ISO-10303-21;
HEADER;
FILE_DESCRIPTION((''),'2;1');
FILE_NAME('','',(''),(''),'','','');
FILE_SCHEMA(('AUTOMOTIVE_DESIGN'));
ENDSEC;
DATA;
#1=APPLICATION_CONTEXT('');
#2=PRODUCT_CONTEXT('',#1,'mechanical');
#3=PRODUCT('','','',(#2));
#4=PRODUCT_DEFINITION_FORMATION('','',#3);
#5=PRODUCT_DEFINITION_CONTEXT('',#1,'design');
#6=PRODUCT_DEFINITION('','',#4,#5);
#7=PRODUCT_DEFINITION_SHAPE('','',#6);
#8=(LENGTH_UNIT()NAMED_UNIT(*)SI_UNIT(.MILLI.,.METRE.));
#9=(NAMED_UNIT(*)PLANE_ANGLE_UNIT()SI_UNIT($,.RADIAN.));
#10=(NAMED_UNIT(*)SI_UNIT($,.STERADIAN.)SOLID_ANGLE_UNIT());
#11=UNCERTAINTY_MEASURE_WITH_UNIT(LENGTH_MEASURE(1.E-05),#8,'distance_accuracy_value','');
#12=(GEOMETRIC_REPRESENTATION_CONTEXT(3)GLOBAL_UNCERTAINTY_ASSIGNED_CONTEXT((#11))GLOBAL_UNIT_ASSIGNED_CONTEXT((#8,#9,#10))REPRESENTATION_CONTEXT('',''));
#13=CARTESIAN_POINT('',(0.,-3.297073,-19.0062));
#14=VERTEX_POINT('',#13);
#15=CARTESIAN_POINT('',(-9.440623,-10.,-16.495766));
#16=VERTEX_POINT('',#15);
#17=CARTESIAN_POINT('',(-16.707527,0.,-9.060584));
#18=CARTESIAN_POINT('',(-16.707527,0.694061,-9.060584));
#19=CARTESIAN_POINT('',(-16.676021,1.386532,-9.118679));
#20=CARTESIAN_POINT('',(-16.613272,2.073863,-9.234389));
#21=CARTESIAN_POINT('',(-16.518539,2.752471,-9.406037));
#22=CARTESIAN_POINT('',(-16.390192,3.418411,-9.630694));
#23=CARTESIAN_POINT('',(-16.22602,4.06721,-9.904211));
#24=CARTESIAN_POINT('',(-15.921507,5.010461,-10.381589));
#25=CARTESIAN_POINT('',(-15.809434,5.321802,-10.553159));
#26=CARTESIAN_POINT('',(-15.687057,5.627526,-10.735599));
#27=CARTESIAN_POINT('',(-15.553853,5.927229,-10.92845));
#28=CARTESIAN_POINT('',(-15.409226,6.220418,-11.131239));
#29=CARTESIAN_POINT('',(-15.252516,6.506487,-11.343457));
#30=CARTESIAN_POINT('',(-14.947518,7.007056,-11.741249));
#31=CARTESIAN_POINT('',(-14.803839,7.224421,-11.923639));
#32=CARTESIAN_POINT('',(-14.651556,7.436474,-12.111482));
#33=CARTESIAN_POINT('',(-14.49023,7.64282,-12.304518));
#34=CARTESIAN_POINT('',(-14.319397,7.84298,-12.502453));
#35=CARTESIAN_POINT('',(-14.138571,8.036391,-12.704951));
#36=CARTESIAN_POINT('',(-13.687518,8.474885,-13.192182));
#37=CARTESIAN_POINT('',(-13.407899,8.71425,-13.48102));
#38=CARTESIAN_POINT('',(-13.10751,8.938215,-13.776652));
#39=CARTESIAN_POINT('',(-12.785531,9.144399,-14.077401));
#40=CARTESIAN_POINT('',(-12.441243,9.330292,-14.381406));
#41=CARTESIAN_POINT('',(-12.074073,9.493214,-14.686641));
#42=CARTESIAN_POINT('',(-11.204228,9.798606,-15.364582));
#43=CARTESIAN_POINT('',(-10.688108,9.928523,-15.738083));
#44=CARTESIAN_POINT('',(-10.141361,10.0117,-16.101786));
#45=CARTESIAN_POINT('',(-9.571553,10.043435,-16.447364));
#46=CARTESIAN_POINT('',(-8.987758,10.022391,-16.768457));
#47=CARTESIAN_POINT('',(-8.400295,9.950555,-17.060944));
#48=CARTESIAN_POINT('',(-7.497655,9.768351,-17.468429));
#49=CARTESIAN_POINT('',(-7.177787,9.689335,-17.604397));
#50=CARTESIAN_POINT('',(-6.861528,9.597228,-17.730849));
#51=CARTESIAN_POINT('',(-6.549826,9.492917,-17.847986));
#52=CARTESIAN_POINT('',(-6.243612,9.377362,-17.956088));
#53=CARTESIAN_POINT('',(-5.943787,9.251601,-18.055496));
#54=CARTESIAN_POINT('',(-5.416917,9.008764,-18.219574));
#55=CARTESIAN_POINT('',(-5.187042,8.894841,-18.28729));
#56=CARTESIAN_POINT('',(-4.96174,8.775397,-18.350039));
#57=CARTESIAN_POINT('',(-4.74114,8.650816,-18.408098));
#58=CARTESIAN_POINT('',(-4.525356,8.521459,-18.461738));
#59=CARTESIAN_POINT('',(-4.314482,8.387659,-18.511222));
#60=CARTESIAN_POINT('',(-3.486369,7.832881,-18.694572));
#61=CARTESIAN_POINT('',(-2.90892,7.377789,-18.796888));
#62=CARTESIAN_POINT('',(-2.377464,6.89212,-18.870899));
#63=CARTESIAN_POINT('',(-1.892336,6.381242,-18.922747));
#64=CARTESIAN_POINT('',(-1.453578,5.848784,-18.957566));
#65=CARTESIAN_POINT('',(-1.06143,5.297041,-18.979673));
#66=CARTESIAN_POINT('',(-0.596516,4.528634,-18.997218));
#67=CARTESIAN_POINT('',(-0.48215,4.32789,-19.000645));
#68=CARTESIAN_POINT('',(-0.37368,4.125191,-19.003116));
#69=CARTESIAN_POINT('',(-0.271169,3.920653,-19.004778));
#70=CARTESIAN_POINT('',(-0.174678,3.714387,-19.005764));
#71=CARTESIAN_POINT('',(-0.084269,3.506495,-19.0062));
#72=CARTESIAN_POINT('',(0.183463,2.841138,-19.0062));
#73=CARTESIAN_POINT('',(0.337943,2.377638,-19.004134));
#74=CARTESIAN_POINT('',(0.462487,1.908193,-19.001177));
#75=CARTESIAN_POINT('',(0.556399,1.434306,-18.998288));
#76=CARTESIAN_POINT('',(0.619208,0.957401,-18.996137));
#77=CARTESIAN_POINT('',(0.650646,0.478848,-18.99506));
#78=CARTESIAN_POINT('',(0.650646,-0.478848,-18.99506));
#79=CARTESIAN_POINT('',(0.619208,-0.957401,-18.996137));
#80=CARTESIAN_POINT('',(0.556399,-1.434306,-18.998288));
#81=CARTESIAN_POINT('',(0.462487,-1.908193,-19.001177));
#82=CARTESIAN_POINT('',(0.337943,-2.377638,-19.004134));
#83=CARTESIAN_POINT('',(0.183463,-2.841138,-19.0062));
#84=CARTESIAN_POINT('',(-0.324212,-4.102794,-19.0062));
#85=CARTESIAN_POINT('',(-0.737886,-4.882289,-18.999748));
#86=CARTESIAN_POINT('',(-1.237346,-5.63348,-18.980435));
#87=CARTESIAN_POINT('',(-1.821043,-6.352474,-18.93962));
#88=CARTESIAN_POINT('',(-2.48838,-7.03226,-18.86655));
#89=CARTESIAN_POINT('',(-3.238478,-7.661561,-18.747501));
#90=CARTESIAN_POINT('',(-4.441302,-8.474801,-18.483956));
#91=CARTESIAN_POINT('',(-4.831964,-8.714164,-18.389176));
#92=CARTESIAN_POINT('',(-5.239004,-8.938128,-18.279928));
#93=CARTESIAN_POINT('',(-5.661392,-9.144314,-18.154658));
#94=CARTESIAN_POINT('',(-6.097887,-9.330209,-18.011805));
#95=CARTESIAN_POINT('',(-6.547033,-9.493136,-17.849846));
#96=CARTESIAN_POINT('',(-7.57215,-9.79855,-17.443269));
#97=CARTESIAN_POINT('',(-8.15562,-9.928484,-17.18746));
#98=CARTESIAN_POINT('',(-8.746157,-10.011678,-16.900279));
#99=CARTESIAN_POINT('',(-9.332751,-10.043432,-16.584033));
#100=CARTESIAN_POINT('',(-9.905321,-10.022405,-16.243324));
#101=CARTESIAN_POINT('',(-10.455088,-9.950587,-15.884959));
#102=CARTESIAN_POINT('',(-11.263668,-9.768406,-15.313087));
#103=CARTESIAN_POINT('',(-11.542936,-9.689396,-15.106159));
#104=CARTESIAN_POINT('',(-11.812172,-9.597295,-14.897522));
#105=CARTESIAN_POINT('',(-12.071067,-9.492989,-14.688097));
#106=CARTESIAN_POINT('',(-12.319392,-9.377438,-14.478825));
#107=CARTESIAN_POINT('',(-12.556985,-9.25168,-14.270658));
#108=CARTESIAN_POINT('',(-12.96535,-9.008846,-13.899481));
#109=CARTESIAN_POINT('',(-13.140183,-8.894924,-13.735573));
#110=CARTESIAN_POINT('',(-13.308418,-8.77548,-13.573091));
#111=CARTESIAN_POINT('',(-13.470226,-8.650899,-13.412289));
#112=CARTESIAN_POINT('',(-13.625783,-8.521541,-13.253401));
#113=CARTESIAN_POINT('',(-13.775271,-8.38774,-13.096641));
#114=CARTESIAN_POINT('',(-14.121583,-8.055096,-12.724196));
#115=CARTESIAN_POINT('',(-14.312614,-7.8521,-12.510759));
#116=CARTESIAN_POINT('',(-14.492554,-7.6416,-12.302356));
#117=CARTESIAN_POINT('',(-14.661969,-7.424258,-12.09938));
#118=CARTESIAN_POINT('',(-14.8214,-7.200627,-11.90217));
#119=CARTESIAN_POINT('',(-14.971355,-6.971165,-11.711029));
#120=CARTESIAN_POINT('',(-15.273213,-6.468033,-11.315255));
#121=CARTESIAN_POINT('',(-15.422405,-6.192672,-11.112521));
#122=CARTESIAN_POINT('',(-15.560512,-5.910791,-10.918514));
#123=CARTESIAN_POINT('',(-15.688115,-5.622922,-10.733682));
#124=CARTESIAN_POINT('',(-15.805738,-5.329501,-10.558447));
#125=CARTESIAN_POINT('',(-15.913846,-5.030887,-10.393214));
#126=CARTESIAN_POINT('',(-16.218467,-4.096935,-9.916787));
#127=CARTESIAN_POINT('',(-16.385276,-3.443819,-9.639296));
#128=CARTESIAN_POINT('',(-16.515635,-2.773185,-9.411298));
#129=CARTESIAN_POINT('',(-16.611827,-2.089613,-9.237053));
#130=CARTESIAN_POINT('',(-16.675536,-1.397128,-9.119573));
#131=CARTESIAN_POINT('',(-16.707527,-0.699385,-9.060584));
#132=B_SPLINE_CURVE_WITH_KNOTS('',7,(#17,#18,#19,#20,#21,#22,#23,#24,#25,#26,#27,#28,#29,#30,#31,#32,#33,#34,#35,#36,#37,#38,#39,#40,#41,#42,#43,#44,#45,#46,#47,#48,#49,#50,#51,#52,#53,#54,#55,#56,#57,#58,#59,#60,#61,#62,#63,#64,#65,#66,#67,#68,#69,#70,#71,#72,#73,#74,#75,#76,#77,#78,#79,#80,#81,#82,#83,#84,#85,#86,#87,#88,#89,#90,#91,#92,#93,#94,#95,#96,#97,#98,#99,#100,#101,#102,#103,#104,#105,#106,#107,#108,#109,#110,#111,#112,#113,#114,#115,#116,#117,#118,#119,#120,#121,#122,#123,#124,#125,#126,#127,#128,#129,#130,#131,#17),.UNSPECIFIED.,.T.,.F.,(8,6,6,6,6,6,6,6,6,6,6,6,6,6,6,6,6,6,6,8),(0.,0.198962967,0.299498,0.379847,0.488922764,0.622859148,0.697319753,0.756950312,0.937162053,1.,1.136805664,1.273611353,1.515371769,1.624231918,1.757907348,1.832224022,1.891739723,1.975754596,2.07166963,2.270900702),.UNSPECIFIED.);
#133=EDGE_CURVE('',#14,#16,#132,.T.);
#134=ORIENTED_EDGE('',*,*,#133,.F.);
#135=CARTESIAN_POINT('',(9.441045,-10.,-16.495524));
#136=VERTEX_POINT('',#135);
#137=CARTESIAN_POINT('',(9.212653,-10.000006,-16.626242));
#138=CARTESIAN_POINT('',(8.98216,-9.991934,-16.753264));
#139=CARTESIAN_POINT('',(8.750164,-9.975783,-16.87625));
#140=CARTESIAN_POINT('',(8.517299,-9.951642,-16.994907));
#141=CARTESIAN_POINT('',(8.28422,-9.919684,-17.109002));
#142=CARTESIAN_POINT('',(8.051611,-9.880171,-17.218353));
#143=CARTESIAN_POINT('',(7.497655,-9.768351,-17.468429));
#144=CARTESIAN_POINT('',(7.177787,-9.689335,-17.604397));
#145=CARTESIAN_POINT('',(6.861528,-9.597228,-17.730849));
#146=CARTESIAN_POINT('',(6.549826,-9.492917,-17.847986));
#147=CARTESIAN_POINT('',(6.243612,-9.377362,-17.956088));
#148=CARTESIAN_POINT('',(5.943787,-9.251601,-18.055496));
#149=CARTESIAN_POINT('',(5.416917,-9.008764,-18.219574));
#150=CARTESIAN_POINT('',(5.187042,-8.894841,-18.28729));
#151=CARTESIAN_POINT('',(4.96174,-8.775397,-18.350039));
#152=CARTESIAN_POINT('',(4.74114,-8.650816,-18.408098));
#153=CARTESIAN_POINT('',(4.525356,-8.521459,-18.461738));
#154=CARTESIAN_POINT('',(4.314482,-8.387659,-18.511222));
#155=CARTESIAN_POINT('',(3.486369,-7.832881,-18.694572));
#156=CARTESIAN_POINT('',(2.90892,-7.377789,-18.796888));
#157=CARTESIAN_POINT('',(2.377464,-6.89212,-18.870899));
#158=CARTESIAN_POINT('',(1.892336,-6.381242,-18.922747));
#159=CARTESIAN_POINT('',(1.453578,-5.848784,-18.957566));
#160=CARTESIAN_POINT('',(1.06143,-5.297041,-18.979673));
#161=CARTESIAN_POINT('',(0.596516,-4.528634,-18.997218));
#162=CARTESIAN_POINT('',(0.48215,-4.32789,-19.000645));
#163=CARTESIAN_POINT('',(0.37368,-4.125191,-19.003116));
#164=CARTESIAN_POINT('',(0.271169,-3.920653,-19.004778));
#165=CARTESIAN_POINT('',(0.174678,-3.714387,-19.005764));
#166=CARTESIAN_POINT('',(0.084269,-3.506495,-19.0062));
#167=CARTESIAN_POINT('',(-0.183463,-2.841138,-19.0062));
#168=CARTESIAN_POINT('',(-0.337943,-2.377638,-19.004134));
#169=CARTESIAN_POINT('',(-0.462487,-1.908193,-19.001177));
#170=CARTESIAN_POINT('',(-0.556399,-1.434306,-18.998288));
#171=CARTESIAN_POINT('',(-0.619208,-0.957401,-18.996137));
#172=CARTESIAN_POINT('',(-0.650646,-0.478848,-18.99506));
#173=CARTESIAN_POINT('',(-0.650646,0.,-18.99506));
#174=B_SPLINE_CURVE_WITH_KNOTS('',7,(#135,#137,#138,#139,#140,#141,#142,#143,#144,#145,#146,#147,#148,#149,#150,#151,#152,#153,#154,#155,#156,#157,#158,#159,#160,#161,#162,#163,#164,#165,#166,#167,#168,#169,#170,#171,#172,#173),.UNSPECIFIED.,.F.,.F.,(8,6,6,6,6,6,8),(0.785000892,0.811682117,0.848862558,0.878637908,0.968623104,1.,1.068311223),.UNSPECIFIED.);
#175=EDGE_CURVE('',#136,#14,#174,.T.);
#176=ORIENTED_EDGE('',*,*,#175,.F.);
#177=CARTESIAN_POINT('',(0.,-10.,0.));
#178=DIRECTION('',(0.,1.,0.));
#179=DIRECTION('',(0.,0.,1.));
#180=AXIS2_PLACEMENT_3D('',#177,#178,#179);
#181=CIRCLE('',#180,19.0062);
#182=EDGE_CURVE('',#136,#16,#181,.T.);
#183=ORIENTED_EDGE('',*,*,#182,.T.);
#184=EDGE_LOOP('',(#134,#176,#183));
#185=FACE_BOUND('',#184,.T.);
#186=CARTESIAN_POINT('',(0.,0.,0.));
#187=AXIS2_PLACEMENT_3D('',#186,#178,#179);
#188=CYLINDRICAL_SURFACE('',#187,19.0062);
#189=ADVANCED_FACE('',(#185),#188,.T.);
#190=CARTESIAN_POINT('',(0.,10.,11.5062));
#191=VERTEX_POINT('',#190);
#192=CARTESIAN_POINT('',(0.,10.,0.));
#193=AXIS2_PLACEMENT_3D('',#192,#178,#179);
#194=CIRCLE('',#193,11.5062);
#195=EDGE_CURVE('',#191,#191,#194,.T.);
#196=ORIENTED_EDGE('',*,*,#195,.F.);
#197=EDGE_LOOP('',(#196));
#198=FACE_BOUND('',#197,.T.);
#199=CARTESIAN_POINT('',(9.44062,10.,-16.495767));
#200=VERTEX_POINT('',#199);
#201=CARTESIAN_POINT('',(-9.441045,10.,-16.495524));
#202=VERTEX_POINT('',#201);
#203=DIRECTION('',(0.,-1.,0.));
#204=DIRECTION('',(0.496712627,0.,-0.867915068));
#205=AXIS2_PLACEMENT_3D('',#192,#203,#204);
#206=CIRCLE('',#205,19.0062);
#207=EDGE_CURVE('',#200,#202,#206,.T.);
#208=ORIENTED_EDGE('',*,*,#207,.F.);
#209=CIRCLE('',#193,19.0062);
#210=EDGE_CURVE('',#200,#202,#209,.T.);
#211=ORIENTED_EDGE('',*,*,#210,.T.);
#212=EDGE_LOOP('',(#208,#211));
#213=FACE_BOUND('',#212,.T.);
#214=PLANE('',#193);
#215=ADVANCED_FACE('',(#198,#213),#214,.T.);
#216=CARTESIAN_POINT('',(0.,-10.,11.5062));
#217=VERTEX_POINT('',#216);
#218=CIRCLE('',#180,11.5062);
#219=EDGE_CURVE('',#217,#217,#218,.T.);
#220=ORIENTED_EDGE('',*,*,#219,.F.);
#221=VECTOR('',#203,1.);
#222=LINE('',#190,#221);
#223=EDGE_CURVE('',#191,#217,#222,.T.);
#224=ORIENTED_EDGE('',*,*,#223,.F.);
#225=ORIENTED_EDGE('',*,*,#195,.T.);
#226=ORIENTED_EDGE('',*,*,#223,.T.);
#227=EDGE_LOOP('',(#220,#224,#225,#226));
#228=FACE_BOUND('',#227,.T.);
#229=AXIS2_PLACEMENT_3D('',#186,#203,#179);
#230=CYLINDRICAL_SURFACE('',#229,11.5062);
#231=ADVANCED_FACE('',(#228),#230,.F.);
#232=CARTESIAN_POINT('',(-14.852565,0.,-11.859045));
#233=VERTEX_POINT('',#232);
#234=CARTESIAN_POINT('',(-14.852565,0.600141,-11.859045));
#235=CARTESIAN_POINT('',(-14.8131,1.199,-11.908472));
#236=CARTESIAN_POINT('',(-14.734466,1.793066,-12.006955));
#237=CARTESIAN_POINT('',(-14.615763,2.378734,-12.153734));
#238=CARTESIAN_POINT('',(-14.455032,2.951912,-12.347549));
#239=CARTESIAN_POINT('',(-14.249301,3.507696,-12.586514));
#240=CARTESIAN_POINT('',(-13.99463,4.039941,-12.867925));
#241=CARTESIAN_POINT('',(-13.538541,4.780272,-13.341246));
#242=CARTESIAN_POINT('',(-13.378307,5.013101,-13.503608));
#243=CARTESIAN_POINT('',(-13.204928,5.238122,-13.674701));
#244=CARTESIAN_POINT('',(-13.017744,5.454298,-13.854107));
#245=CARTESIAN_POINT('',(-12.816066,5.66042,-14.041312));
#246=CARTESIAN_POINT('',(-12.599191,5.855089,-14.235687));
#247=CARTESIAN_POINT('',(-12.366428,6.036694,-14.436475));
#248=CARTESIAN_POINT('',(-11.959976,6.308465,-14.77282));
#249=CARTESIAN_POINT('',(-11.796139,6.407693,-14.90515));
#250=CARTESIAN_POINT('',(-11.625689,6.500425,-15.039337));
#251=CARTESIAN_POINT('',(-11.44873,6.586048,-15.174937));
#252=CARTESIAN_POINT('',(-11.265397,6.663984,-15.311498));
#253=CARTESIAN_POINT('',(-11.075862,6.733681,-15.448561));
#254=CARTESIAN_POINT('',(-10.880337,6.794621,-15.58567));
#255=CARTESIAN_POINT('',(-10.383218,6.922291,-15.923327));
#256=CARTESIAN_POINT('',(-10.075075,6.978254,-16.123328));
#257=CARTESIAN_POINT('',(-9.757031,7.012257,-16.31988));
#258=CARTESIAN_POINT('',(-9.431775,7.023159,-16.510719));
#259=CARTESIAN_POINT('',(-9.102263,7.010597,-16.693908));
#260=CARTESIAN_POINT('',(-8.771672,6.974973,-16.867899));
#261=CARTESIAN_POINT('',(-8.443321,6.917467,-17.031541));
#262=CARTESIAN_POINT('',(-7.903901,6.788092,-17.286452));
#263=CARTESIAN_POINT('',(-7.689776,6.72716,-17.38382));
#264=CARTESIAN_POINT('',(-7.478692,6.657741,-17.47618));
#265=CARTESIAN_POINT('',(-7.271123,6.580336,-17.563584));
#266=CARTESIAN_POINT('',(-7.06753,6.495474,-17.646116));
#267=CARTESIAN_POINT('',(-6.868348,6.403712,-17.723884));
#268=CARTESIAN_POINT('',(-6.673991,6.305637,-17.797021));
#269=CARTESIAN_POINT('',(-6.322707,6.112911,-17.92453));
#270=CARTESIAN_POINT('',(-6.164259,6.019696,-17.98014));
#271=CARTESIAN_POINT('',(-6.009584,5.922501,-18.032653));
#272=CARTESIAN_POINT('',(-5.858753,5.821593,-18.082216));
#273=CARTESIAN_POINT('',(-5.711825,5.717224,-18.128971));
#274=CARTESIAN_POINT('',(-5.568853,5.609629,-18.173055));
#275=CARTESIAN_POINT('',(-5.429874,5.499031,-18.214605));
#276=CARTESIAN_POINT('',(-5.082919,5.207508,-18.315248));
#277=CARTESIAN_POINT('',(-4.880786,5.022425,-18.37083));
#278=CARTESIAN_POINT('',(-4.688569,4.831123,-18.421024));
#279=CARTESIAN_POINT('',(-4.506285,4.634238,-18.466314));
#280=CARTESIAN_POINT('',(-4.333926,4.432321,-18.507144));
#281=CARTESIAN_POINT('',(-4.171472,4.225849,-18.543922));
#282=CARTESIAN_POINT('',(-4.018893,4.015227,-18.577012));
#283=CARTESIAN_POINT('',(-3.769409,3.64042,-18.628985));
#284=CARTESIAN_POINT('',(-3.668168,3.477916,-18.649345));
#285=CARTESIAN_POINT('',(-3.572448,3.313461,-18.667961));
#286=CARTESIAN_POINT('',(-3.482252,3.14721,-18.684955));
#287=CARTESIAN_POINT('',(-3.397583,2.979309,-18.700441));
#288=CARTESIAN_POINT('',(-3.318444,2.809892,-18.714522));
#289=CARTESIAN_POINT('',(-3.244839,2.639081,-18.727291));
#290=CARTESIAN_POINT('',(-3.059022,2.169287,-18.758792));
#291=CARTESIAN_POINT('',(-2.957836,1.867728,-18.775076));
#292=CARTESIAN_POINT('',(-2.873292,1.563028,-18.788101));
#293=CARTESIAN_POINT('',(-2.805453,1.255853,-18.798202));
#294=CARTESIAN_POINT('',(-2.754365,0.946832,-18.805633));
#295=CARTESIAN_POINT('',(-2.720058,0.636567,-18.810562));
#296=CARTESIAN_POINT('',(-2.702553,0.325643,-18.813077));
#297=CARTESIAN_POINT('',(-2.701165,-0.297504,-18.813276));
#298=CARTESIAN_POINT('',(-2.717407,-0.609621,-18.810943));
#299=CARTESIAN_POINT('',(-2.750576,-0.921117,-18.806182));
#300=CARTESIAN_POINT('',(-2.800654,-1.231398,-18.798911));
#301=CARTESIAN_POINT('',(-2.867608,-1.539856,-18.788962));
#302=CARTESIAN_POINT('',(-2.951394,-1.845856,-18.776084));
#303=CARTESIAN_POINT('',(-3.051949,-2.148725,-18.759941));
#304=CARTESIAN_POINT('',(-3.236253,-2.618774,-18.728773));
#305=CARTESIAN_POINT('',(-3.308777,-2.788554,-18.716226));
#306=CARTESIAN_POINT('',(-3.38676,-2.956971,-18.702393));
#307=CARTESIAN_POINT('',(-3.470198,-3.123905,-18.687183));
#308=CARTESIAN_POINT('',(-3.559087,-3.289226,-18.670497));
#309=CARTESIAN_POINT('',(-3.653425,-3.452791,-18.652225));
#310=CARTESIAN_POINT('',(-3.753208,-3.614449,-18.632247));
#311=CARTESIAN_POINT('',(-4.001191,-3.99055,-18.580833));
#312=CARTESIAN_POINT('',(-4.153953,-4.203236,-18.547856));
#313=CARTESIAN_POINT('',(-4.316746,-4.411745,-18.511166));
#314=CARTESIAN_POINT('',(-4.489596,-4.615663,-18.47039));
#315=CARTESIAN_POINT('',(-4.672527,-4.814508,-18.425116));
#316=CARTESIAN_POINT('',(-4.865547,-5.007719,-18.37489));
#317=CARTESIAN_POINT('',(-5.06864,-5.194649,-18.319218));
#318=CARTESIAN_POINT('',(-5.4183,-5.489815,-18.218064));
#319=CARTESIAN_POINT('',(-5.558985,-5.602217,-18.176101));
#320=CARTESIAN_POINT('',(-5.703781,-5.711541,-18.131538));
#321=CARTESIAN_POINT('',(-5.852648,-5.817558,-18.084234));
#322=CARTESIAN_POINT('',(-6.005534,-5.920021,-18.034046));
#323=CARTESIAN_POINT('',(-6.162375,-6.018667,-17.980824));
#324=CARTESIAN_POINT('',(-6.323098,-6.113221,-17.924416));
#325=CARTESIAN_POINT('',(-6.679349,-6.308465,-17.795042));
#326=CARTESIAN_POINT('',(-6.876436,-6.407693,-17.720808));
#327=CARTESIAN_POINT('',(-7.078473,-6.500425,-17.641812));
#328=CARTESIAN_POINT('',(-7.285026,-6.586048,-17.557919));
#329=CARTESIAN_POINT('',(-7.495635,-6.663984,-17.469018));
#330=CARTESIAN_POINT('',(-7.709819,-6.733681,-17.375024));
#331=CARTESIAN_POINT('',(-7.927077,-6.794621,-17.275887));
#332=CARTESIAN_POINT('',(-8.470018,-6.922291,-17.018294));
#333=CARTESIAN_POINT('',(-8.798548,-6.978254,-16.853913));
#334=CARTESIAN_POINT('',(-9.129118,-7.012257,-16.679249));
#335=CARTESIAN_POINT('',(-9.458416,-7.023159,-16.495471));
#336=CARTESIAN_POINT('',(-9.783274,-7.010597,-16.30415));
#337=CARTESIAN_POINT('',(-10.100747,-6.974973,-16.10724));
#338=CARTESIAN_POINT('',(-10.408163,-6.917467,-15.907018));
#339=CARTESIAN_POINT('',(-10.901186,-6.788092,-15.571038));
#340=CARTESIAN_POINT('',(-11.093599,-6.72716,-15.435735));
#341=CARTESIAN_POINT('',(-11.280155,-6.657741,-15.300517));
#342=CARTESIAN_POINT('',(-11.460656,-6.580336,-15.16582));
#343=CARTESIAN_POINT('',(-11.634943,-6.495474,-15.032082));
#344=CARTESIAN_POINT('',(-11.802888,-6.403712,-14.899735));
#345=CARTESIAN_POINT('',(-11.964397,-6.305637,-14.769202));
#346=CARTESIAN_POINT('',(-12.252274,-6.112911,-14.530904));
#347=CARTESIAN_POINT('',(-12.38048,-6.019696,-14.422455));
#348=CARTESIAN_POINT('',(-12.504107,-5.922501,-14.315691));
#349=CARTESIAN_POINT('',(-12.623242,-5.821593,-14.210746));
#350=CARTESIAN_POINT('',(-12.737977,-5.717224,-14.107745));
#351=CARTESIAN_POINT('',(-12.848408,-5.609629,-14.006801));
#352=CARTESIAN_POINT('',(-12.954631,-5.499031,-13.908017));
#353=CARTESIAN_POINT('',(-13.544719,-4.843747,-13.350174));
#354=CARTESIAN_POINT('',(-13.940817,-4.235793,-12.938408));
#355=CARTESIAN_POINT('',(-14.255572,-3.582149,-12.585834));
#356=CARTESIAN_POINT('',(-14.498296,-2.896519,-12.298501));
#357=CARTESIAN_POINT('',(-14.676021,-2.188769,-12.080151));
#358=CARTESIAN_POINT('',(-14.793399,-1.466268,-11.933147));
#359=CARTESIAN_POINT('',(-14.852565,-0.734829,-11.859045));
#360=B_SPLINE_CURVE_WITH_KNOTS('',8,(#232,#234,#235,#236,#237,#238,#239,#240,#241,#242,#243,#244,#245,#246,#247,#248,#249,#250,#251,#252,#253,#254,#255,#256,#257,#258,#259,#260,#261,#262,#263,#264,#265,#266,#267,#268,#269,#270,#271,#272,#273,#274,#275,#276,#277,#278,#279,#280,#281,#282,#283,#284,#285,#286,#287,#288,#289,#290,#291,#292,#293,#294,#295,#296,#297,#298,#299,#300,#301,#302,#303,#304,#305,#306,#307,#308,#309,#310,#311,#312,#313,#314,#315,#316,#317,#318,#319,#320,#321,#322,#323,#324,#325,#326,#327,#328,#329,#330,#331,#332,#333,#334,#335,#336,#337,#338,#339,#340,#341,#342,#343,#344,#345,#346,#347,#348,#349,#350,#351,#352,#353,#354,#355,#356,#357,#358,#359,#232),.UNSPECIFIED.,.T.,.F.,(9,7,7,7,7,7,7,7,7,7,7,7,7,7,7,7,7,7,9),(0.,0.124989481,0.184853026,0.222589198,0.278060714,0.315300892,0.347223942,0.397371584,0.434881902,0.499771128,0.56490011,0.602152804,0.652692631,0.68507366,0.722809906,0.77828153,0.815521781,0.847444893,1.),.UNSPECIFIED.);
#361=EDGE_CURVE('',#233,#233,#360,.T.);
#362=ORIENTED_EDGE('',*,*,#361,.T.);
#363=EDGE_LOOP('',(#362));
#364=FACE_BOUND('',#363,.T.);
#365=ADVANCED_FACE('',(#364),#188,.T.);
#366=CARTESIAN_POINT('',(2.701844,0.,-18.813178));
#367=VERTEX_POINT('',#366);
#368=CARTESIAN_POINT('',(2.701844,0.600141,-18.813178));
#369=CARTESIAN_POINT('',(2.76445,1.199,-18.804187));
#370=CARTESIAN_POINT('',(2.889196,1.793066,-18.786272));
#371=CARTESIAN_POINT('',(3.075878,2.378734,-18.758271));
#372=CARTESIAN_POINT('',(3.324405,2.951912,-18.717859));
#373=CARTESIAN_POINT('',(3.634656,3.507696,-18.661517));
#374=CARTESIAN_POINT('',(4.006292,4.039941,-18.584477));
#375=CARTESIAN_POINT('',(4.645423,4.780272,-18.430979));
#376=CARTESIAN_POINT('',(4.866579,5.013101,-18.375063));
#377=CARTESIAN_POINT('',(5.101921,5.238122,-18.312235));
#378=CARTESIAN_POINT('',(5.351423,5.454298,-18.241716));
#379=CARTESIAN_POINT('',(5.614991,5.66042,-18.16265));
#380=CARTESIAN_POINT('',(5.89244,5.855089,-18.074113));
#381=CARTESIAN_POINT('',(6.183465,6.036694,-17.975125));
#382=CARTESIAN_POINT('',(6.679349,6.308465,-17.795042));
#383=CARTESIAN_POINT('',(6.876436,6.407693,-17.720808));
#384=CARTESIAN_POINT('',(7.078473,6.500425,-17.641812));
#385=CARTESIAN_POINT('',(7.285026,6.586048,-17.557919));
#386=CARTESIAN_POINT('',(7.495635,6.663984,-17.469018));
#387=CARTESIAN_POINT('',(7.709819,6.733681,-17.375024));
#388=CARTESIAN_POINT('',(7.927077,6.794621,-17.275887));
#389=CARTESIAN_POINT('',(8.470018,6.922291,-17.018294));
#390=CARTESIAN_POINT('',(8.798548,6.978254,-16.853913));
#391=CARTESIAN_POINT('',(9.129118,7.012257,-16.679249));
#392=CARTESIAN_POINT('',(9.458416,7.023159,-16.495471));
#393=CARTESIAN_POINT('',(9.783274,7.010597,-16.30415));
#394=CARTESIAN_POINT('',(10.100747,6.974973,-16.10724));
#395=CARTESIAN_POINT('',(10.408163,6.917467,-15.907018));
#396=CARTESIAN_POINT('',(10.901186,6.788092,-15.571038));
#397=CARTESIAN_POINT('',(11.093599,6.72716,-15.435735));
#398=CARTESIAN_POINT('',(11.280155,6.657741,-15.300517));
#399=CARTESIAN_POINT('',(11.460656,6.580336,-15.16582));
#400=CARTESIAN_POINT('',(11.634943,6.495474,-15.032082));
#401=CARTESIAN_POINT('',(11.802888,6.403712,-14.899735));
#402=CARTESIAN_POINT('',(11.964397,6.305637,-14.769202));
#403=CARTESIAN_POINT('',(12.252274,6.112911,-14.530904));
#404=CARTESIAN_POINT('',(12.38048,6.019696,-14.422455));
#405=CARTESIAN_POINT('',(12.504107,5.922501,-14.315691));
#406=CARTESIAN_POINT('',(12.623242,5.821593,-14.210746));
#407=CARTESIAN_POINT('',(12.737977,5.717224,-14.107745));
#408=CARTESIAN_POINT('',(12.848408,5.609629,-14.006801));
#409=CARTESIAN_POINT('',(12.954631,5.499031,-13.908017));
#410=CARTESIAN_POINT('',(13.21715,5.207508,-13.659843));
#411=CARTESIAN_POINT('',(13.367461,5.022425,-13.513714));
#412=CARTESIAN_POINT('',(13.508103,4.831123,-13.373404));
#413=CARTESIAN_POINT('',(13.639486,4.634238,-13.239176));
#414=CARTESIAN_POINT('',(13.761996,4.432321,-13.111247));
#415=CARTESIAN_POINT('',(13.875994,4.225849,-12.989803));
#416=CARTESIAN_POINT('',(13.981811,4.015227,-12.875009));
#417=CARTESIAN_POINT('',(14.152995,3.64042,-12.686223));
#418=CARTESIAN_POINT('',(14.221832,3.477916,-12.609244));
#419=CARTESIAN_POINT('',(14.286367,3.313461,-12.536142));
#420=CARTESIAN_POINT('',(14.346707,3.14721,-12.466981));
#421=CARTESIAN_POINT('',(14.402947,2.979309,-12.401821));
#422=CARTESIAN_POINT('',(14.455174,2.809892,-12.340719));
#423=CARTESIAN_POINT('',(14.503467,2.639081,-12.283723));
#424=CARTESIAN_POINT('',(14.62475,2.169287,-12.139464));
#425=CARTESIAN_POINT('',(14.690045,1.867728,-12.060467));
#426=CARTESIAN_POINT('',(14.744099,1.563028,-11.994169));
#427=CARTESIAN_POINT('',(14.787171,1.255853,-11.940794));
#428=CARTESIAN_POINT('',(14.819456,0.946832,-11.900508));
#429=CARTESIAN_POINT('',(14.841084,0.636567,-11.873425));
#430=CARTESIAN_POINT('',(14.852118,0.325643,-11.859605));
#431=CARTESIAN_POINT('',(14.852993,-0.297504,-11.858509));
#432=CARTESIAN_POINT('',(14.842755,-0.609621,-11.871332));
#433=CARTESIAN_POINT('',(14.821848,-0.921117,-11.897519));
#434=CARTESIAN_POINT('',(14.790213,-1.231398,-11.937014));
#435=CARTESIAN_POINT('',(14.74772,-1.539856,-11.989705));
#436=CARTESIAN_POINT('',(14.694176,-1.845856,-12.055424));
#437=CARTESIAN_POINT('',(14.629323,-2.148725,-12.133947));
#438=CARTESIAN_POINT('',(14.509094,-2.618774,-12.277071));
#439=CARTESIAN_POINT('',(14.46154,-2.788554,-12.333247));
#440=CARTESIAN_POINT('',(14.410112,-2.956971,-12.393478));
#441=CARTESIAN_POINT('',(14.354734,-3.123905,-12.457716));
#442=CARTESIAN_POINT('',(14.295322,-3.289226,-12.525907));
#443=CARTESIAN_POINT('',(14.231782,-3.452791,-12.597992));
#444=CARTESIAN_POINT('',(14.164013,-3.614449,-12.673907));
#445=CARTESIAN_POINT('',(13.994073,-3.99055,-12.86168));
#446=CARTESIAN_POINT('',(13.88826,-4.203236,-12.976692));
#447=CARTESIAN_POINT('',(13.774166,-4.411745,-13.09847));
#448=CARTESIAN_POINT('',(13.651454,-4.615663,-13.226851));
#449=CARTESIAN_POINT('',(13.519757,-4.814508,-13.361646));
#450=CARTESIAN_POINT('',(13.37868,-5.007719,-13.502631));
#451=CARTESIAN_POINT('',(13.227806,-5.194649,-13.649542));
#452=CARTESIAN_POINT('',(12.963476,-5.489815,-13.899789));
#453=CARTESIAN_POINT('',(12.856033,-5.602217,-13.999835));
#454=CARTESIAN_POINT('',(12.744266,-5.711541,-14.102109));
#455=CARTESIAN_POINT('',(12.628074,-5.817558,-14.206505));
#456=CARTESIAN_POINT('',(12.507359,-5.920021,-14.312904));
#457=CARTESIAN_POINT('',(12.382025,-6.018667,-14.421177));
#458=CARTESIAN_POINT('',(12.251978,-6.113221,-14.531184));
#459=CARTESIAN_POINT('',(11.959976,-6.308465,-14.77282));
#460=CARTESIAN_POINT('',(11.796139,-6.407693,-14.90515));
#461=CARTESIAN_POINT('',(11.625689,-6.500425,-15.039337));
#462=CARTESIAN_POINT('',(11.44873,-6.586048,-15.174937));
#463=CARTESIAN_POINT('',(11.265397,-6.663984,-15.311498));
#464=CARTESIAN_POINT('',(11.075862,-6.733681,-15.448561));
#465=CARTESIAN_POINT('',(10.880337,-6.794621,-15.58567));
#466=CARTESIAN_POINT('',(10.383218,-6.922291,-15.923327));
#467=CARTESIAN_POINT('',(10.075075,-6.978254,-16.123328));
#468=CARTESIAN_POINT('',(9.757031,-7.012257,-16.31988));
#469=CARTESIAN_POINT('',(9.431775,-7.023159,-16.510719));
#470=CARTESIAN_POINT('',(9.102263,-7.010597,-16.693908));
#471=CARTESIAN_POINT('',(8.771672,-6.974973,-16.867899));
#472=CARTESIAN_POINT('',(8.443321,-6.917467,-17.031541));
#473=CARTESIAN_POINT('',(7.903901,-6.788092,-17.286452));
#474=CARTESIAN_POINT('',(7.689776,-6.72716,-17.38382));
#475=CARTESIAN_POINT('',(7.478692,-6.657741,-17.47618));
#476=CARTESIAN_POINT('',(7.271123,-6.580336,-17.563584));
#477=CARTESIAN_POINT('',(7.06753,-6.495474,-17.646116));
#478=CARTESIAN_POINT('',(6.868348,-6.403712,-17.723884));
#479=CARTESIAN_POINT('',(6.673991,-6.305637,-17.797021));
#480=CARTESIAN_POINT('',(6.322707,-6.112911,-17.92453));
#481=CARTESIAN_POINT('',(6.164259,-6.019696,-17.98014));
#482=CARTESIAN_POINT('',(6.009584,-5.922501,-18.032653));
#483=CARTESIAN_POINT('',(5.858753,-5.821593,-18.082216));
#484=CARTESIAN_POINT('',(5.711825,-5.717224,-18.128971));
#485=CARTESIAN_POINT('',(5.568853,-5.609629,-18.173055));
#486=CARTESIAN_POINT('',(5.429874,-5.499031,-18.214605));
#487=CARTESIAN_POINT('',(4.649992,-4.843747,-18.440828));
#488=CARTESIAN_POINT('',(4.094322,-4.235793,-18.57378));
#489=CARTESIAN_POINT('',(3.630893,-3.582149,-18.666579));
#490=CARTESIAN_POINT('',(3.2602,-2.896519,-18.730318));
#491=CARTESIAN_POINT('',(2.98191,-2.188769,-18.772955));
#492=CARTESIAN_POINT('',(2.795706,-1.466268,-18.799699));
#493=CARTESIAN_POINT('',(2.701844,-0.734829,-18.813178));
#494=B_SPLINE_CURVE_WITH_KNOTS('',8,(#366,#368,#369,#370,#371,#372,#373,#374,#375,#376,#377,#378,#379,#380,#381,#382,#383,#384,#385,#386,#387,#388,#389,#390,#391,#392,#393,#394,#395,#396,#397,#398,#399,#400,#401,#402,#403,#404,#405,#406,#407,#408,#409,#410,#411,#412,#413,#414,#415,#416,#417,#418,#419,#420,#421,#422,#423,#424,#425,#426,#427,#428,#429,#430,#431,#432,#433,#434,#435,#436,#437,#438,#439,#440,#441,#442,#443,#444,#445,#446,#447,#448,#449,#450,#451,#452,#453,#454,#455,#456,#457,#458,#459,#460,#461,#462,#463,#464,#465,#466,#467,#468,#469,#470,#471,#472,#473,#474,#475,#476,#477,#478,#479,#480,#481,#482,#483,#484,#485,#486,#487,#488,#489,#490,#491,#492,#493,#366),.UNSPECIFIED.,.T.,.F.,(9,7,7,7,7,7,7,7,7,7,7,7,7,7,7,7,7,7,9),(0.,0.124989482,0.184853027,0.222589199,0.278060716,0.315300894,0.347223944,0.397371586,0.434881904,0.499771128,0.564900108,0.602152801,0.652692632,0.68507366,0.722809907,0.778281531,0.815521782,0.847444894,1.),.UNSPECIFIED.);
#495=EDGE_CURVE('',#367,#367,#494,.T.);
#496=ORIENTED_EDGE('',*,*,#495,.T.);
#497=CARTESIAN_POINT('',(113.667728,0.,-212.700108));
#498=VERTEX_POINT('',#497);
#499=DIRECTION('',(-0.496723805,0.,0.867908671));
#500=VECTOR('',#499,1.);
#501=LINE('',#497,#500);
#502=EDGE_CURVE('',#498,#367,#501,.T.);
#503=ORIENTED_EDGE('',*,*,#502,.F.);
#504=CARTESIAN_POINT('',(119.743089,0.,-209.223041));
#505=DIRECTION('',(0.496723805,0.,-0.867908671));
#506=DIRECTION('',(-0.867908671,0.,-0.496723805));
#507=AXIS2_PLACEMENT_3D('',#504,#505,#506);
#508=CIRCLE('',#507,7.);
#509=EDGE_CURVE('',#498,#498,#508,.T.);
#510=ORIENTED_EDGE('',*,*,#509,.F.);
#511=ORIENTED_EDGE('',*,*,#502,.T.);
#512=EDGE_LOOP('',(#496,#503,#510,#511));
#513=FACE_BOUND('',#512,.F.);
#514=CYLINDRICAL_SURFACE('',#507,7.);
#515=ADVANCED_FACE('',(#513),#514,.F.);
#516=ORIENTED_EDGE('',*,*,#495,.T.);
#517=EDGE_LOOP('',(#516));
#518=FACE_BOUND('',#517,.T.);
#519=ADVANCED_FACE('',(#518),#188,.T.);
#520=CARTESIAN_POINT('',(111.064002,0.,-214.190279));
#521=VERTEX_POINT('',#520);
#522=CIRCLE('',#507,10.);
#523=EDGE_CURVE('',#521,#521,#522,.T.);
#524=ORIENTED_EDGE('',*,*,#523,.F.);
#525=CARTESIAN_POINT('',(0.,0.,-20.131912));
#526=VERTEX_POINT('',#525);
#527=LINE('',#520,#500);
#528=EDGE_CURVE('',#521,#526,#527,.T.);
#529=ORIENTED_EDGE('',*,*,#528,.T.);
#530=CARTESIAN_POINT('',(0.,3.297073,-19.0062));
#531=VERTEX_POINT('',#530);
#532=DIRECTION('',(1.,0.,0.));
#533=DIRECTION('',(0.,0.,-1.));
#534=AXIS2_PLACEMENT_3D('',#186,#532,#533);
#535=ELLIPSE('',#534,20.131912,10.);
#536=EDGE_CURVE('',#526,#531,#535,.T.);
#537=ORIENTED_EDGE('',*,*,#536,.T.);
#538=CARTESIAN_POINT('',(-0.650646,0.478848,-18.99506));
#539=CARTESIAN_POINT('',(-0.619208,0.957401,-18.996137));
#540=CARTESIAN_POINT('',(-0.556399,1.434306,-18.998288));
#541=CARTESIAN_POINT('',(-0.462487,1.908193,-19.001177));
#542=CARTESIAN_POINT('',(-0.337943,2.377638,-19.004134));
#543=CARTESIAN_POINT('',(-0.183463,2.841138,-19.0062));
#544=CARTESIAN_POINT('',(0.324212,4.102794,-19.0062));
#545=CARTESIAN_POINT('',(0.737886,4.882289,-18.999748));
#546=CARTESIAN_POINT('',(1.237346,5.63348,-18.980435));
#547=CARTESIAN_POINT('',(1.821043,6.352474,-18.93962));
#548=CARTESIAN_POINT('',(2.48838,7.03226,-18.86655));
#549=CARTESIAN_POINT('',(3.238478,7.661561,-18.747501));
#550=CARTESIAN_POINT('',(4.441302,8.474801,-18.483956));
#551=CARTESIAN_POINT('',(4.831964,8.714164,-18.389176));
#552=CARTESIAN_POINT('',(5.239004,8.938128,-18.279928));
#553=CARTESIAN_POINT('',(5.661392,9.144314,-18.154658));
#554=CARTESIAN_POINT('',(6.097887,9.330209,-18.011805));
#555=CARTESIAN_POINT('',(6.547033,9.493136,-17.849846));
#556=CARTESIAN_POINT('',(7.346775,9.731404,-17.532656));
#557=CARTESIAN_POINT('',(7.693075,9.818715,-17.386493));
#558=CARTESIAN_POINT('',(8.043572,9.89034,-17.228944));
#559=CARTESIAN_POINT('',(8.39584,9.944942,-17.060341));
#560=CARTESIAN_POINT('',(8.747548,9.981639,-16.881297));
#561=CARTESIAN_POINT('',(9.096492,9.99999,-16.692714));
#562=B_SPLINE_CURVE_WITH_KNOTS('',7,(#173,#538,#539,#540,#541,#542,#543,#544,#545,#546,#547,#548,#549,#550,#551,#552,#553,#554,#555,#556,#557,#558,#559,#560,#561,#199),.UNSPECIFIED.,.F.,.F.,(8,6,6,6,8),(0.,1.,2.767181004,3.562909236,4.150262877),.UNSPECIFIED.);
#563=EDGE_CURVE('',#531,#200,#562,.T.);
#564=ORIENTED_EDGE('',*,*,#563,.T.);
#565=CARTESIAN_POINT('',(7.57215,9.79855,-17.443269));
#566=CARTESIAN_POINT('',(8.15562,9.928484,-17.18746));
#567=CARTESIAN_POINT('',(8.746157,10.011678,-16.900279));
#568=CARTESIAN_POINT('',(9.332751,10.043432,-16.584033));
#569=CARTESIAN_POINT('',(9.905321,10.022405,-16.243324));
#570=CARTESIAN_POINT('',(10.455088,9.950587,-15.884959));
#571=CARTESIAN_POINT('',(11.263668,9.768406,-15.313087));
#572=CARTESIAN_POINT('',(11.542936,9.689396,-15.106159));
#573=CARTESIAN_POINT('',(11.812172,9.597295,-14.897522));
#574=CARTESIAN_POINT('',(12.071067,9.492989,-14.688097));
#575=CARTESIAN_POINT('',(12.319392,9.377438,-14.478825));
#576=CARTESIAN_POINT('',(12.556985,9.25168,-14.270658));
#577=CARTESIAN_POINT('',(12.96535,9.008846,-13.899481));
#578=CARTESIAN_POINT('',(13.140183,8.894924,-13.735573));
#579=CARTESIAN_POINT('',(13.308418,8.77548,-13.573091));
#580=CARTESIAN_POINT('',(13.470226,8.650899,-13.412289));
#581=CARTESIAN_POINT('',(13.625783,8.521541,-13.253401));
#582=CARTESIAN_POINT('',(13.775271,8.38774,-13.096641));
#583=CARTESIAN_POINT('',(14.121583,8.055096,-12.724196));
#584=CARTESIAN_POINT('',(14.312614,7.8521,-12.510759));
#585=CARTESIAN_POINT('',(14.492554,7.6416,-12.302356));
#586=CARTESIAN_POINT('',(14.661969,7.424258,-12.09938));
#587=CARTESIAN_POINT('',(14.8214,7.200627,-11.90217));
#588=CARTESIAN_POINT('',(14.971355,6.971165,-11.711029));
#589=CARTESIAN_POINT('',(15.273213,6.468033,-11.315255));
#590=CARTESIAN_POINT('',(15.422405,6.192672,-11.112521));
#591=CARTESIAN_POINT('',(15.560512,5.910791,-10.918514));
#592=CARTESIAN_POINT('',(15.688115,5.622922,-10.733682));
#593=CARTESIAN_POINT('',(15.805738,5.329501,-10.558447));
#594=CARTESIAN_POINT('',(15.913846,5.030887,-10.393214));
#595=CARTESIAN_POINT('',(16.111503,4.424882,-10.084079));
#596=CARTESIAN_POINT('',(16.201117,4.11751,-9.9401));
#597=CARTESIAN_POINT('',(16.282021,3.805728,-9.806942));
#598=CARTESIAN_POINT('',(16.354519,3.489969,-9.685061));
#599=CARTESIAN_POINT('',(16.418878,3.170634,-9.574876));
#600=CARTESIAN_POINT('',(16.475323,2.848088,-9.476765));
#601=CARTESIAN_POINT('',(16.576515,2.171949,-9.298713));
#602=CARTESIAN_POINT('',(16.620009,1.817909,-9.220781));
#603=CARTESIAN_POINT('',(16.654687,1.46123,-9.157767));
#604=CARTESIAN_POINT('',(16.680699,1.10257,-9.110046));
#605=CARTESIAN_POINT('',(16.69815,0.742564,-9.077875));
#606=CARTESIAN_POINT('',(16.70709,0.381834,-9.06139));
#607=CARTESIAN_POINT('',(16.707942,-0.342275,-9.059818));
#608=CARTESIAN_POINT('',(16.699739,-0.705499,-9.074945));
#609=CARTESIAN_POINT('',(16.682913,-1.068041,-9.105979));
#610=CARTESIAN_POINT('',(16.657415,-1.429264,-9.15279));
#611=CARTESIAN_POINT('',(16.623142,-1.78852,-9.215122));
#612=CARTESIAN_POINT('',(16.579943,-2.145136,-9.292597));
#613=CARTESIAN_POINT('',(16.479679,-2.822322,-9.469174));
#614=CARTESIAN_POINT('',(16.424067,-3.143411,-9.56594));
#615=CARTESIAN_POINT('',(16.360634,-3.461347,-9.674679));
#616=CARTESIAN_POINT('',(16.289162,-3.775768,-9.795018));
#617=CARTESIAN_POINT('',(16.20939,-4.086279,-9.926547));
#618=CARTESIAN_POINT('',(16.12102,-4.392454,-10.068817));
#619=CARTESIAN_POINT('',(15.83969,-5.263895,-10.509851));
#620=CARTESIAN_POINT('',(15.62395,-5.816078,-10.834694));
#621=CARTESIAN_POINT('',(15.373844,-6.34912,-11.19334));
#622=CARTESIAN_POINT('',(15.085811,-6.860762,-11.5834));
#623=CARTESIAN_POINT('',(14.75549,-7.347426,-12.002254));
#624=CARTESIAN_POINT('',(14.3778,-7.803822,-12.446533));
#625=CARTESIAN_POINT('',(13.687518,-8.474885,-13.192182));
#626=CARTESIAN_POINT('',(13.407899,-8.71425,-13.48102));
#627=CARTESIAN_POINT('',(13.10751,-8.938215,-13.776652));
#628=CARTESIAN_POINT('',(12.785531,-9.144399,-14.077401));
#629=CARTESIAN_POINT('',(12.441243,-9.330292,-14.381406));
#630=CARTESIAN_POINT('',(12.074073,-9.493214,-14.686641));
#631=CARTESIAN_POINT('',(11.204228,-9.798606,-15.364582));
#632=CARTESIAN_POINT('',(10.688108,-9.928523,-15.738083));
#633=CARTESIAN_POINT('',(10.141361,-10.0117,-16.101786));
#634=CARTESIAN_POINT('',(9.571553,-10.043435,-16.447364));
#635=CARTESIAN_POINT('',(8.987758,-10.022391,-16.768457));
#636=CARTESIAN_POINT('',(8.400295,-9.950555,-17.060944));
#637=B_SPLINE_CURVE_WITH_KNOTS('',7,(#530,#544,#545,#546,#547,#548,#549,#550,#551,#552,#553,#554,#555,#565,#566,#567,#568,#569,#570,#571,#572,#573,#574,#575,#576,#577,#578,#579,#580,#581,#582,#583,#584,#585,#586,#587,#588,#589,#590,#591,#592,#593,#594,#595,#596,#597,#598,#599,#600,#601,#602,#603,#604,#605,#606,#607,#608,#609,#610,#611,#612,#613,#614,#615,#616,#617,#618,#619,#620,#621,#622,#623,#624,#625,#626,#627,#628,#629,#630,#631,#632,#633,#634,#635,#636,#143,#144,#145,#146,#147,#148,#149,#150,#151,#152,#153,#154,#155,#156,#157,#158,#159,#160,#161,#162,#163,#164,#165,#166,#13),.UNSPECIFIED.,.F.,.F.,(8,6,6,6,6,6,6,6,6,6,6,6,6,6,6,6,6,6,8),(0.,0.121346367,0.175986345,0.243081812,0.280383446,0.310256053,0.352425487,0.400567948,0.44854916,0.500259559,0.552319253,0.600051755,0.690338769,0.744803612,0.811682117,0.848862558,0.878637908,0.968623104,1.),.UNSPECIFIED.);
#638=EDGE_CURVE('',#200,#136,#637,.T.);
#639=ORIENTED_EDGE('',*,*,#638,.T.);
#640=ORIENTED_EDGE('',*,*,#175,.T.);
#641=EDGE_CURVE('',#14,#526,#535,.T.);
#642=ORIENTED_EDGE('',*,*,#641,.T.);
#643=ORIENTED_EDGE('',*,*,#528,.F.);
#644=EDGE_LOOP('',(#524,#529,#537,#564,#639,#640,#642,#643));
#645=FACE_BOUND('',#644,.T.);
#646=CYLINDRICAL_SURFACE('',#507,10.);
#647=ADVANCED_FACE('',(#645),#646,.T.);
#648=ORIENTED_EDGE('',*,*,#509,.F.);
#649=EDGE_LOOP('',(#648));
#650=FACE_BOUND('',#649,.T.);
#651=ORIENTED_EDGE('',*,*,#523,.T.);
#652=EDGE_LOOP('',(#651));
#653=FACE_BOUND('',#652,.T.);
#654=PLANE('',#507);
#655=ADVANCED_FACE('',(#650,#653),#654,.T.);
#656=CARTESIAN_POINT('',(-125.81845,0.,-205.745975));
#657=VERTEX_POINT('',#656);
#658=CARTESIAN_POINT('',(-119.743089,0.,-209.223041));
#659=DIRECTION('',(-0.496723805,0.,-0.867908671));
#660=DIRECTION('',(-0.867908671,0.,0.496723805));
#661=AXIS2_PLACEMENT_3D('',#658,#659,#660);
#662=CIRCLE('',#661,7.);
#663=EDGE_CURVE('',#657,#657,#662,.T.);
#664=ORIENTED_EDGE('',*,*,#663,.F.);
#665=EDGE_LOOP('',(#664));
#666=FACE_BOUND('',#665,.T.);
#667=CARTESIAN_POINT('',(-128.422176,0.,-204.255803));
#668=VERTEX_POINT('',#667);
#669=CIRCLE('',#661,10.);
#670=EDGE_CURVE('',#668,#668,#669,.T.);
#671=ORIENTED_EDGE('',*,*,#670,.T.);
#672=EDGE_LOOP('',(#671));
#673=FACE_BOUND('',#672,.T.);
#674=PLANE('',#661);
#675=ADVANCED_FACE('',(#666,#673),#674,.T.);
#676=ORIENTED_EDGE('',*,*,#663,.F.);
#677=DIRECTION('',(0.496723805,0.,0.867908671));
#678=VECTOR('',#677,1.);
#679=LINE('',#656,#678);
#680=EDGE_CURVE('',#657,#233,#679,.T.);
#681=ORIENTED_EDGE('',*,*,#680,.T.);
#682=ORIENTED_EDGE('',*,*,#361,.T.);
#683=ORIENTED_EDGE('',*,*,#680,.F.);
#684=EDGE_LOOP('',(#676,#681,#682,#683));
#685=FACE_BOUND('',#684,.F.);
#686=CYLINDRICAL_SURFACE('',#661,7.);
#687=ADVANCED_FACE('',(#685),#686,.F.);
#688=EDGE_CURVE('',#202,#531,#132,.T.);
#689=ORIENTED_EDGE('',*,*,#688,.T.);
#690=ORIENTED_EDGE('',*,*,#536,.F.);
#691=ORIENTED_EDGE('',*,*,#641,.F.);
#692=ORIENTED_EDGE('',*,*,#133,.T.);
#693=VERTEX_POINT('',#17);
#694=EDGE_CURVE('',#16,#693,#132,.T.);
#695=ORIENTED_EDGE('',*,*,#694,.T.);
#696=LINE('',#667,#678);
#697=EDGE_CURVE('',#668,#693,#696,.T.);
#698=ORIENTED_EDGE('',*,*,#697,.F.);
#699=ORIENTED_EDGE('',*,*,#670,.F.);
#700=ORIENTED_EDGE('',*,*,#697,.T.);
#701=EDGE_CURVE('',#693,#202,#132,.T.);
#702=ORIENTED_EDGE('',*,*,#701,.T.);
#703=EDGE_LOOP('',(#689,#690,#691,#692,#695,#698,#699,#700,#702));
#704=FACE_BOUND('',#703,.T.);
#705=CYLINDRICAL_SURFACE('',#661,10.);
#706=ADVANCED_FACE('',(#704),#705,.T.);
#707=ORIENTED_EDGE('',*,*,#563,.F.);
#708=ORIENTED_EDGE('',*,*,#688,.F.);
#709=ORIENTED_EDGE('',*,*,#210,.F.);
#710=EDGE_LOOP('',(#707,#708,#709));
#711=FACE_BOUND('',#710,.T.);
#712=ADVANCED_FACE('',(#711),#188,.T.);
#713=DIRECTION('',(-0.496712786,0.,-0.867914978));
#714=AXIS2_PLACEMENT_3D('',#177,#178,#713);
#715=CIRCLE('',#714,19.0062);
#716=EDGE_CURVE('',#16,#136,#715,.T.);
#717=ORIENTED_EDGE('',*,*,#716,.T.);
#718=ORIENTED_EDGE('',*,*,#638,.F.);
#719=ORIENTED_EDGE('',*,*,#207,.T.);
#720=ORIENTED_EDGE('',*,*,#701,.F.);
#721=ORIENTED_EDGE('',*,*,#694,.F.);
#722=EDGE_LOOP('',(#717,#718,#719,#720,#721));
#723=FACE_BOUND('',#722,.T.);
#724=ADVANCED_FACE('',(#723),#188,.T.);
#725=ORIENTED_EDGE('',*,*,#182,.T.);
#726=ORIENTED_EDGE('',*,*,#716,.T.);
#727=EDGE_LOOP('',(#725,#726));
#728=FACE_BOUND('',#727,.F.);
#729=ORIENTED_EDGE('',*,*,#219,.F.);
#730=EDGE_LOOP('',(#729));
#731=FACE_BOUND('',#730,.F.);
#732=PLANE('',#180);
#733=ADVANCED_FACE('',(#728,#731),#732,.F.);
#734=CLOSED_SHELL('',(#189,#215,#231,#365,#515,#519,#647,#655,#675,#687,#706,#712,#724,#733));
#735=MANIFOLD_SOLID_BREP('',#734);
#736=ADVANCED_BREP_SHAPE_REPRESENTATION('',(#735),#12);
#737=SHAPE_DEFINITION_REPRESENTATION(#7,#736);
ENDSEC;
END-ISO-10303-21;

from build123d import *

# Parameters (mm, degrees)
SKETCH1_R                = 19.0062
SKETCH1_R_2              = 11.5062
BOSS_EXTRUDE1_DEPTH      = 10
BOSS_EXTRUDE2_REACH      = 269.283
BOSS_EXTRUDE2_END_RADIUS = 19.0062
SKETCH5_R                = 10
SKETCH5_R_2              = 7
BOSS_EXTRUDE3_REACH      = 339.305
BOSS_EXTRUDE3_END_RADIUS = 19.0062
SKETCH6_R                = 10
SKETCH6_R_2              = 7


with BuildPart() as part:
    # Sketch1 → Boss-Extrude1 (new, symmetric)
    with BuildSketch(Plane(origin=(0, 0, 0), x_dir=(1, 0, 0), z_dir=(0, 1, 0))):
        with Locations(Location((0, 0, 0), (0, 0, 270))):
            Circle(SKETCH1_R)
        with Locations(Location((0, 0, 0), (0, 0, 270))):
            Circle(SKETCH1_R_2, mode=Mode.SUBTRACT)
    extrude(amount=BOSS_EXTRUDE1_DEPTH, both=True)

    # Boss-Extrude2: up to this cylinder (the profile starts outside it)
    boss_extrude2_end = Plane(origin=(0, 0, 0), z_dir=(0, -1, 0)) * Cylinder(BOSS_EXTRUDE2_END_RADIUS, 577.5784, mode=Mode.PRIVATE)
    # Sketch5 → Boss-Extrude2 (add, up to the surface)
    with BuildSketch(Plane(origin=(119.743088876, 0, -209.223041267), x_dir=(0.8679086712012518, 0, 0.4967238049999995), z_dir=(0.4967238049999996, 0, -0.8679086712012518)), mode=Mode.PRIVATE) as boss_extrude2_sk1:
        with Locations(Location((0, 0, 0), (0, 0, 180))):
            Circle(SKETCH5_R)
        with Locations(Location((0, 0, 0), (0, 0, 180))):
            Circle(SKETCH5_R_2, mode=Mode.SUBTRACT)
    boss_extrude2_tool1 = extrude(boss_extrude2_sk1.sketch, amount=-BOSS_EXTRUDE2_REACH, mode=Mode.PRIVATE) - boss_extrude2_end
    add(boss_extrude2_tool1.solids().sort_by_distance((128.176694, 0, -204.396298))[0])

    # Boss-Extrude3: up to this cylinder (the profile starts outside it)
    boss_extrude3_end = Plane(origin=(0, 0, 0), z_dir=(0, -1, 0)) * Cylinder(BOSS_EXTRUDE3_END_RADIUS, 717.6224, mode=Mode.PRIVATE)
    # Sketch6 → Boss-Extrude3 (add, up to the surface)
    with BuildSketch(Plane(origin=(-119.743088876, 0, -209.223041267), x_dir=(-0.8679086712012486, 0, 0.4967238050000052), z_dir=(-0.4967238050000052, 0, -0.8679086712012486)), mode=Mode.PRIVATE) as boss_extrude3_sk1:
        Circle(SKETCH6_R)
        Circle(SKETCH6_R_2, mode=Mode.SUBTRACT)
    boss_extrude3_tool1 = extrude(boss_extrude3_sk1.sketch, amount=-BOSS_EXTRUDE3_REACH, mode=Mode.PRIVATE) - boss_extrude3_end
    add(boss_extrude3_tool1.solids().sort_by_distance((-111.309484, 0, -214.049785))[0])


solid = part.part
